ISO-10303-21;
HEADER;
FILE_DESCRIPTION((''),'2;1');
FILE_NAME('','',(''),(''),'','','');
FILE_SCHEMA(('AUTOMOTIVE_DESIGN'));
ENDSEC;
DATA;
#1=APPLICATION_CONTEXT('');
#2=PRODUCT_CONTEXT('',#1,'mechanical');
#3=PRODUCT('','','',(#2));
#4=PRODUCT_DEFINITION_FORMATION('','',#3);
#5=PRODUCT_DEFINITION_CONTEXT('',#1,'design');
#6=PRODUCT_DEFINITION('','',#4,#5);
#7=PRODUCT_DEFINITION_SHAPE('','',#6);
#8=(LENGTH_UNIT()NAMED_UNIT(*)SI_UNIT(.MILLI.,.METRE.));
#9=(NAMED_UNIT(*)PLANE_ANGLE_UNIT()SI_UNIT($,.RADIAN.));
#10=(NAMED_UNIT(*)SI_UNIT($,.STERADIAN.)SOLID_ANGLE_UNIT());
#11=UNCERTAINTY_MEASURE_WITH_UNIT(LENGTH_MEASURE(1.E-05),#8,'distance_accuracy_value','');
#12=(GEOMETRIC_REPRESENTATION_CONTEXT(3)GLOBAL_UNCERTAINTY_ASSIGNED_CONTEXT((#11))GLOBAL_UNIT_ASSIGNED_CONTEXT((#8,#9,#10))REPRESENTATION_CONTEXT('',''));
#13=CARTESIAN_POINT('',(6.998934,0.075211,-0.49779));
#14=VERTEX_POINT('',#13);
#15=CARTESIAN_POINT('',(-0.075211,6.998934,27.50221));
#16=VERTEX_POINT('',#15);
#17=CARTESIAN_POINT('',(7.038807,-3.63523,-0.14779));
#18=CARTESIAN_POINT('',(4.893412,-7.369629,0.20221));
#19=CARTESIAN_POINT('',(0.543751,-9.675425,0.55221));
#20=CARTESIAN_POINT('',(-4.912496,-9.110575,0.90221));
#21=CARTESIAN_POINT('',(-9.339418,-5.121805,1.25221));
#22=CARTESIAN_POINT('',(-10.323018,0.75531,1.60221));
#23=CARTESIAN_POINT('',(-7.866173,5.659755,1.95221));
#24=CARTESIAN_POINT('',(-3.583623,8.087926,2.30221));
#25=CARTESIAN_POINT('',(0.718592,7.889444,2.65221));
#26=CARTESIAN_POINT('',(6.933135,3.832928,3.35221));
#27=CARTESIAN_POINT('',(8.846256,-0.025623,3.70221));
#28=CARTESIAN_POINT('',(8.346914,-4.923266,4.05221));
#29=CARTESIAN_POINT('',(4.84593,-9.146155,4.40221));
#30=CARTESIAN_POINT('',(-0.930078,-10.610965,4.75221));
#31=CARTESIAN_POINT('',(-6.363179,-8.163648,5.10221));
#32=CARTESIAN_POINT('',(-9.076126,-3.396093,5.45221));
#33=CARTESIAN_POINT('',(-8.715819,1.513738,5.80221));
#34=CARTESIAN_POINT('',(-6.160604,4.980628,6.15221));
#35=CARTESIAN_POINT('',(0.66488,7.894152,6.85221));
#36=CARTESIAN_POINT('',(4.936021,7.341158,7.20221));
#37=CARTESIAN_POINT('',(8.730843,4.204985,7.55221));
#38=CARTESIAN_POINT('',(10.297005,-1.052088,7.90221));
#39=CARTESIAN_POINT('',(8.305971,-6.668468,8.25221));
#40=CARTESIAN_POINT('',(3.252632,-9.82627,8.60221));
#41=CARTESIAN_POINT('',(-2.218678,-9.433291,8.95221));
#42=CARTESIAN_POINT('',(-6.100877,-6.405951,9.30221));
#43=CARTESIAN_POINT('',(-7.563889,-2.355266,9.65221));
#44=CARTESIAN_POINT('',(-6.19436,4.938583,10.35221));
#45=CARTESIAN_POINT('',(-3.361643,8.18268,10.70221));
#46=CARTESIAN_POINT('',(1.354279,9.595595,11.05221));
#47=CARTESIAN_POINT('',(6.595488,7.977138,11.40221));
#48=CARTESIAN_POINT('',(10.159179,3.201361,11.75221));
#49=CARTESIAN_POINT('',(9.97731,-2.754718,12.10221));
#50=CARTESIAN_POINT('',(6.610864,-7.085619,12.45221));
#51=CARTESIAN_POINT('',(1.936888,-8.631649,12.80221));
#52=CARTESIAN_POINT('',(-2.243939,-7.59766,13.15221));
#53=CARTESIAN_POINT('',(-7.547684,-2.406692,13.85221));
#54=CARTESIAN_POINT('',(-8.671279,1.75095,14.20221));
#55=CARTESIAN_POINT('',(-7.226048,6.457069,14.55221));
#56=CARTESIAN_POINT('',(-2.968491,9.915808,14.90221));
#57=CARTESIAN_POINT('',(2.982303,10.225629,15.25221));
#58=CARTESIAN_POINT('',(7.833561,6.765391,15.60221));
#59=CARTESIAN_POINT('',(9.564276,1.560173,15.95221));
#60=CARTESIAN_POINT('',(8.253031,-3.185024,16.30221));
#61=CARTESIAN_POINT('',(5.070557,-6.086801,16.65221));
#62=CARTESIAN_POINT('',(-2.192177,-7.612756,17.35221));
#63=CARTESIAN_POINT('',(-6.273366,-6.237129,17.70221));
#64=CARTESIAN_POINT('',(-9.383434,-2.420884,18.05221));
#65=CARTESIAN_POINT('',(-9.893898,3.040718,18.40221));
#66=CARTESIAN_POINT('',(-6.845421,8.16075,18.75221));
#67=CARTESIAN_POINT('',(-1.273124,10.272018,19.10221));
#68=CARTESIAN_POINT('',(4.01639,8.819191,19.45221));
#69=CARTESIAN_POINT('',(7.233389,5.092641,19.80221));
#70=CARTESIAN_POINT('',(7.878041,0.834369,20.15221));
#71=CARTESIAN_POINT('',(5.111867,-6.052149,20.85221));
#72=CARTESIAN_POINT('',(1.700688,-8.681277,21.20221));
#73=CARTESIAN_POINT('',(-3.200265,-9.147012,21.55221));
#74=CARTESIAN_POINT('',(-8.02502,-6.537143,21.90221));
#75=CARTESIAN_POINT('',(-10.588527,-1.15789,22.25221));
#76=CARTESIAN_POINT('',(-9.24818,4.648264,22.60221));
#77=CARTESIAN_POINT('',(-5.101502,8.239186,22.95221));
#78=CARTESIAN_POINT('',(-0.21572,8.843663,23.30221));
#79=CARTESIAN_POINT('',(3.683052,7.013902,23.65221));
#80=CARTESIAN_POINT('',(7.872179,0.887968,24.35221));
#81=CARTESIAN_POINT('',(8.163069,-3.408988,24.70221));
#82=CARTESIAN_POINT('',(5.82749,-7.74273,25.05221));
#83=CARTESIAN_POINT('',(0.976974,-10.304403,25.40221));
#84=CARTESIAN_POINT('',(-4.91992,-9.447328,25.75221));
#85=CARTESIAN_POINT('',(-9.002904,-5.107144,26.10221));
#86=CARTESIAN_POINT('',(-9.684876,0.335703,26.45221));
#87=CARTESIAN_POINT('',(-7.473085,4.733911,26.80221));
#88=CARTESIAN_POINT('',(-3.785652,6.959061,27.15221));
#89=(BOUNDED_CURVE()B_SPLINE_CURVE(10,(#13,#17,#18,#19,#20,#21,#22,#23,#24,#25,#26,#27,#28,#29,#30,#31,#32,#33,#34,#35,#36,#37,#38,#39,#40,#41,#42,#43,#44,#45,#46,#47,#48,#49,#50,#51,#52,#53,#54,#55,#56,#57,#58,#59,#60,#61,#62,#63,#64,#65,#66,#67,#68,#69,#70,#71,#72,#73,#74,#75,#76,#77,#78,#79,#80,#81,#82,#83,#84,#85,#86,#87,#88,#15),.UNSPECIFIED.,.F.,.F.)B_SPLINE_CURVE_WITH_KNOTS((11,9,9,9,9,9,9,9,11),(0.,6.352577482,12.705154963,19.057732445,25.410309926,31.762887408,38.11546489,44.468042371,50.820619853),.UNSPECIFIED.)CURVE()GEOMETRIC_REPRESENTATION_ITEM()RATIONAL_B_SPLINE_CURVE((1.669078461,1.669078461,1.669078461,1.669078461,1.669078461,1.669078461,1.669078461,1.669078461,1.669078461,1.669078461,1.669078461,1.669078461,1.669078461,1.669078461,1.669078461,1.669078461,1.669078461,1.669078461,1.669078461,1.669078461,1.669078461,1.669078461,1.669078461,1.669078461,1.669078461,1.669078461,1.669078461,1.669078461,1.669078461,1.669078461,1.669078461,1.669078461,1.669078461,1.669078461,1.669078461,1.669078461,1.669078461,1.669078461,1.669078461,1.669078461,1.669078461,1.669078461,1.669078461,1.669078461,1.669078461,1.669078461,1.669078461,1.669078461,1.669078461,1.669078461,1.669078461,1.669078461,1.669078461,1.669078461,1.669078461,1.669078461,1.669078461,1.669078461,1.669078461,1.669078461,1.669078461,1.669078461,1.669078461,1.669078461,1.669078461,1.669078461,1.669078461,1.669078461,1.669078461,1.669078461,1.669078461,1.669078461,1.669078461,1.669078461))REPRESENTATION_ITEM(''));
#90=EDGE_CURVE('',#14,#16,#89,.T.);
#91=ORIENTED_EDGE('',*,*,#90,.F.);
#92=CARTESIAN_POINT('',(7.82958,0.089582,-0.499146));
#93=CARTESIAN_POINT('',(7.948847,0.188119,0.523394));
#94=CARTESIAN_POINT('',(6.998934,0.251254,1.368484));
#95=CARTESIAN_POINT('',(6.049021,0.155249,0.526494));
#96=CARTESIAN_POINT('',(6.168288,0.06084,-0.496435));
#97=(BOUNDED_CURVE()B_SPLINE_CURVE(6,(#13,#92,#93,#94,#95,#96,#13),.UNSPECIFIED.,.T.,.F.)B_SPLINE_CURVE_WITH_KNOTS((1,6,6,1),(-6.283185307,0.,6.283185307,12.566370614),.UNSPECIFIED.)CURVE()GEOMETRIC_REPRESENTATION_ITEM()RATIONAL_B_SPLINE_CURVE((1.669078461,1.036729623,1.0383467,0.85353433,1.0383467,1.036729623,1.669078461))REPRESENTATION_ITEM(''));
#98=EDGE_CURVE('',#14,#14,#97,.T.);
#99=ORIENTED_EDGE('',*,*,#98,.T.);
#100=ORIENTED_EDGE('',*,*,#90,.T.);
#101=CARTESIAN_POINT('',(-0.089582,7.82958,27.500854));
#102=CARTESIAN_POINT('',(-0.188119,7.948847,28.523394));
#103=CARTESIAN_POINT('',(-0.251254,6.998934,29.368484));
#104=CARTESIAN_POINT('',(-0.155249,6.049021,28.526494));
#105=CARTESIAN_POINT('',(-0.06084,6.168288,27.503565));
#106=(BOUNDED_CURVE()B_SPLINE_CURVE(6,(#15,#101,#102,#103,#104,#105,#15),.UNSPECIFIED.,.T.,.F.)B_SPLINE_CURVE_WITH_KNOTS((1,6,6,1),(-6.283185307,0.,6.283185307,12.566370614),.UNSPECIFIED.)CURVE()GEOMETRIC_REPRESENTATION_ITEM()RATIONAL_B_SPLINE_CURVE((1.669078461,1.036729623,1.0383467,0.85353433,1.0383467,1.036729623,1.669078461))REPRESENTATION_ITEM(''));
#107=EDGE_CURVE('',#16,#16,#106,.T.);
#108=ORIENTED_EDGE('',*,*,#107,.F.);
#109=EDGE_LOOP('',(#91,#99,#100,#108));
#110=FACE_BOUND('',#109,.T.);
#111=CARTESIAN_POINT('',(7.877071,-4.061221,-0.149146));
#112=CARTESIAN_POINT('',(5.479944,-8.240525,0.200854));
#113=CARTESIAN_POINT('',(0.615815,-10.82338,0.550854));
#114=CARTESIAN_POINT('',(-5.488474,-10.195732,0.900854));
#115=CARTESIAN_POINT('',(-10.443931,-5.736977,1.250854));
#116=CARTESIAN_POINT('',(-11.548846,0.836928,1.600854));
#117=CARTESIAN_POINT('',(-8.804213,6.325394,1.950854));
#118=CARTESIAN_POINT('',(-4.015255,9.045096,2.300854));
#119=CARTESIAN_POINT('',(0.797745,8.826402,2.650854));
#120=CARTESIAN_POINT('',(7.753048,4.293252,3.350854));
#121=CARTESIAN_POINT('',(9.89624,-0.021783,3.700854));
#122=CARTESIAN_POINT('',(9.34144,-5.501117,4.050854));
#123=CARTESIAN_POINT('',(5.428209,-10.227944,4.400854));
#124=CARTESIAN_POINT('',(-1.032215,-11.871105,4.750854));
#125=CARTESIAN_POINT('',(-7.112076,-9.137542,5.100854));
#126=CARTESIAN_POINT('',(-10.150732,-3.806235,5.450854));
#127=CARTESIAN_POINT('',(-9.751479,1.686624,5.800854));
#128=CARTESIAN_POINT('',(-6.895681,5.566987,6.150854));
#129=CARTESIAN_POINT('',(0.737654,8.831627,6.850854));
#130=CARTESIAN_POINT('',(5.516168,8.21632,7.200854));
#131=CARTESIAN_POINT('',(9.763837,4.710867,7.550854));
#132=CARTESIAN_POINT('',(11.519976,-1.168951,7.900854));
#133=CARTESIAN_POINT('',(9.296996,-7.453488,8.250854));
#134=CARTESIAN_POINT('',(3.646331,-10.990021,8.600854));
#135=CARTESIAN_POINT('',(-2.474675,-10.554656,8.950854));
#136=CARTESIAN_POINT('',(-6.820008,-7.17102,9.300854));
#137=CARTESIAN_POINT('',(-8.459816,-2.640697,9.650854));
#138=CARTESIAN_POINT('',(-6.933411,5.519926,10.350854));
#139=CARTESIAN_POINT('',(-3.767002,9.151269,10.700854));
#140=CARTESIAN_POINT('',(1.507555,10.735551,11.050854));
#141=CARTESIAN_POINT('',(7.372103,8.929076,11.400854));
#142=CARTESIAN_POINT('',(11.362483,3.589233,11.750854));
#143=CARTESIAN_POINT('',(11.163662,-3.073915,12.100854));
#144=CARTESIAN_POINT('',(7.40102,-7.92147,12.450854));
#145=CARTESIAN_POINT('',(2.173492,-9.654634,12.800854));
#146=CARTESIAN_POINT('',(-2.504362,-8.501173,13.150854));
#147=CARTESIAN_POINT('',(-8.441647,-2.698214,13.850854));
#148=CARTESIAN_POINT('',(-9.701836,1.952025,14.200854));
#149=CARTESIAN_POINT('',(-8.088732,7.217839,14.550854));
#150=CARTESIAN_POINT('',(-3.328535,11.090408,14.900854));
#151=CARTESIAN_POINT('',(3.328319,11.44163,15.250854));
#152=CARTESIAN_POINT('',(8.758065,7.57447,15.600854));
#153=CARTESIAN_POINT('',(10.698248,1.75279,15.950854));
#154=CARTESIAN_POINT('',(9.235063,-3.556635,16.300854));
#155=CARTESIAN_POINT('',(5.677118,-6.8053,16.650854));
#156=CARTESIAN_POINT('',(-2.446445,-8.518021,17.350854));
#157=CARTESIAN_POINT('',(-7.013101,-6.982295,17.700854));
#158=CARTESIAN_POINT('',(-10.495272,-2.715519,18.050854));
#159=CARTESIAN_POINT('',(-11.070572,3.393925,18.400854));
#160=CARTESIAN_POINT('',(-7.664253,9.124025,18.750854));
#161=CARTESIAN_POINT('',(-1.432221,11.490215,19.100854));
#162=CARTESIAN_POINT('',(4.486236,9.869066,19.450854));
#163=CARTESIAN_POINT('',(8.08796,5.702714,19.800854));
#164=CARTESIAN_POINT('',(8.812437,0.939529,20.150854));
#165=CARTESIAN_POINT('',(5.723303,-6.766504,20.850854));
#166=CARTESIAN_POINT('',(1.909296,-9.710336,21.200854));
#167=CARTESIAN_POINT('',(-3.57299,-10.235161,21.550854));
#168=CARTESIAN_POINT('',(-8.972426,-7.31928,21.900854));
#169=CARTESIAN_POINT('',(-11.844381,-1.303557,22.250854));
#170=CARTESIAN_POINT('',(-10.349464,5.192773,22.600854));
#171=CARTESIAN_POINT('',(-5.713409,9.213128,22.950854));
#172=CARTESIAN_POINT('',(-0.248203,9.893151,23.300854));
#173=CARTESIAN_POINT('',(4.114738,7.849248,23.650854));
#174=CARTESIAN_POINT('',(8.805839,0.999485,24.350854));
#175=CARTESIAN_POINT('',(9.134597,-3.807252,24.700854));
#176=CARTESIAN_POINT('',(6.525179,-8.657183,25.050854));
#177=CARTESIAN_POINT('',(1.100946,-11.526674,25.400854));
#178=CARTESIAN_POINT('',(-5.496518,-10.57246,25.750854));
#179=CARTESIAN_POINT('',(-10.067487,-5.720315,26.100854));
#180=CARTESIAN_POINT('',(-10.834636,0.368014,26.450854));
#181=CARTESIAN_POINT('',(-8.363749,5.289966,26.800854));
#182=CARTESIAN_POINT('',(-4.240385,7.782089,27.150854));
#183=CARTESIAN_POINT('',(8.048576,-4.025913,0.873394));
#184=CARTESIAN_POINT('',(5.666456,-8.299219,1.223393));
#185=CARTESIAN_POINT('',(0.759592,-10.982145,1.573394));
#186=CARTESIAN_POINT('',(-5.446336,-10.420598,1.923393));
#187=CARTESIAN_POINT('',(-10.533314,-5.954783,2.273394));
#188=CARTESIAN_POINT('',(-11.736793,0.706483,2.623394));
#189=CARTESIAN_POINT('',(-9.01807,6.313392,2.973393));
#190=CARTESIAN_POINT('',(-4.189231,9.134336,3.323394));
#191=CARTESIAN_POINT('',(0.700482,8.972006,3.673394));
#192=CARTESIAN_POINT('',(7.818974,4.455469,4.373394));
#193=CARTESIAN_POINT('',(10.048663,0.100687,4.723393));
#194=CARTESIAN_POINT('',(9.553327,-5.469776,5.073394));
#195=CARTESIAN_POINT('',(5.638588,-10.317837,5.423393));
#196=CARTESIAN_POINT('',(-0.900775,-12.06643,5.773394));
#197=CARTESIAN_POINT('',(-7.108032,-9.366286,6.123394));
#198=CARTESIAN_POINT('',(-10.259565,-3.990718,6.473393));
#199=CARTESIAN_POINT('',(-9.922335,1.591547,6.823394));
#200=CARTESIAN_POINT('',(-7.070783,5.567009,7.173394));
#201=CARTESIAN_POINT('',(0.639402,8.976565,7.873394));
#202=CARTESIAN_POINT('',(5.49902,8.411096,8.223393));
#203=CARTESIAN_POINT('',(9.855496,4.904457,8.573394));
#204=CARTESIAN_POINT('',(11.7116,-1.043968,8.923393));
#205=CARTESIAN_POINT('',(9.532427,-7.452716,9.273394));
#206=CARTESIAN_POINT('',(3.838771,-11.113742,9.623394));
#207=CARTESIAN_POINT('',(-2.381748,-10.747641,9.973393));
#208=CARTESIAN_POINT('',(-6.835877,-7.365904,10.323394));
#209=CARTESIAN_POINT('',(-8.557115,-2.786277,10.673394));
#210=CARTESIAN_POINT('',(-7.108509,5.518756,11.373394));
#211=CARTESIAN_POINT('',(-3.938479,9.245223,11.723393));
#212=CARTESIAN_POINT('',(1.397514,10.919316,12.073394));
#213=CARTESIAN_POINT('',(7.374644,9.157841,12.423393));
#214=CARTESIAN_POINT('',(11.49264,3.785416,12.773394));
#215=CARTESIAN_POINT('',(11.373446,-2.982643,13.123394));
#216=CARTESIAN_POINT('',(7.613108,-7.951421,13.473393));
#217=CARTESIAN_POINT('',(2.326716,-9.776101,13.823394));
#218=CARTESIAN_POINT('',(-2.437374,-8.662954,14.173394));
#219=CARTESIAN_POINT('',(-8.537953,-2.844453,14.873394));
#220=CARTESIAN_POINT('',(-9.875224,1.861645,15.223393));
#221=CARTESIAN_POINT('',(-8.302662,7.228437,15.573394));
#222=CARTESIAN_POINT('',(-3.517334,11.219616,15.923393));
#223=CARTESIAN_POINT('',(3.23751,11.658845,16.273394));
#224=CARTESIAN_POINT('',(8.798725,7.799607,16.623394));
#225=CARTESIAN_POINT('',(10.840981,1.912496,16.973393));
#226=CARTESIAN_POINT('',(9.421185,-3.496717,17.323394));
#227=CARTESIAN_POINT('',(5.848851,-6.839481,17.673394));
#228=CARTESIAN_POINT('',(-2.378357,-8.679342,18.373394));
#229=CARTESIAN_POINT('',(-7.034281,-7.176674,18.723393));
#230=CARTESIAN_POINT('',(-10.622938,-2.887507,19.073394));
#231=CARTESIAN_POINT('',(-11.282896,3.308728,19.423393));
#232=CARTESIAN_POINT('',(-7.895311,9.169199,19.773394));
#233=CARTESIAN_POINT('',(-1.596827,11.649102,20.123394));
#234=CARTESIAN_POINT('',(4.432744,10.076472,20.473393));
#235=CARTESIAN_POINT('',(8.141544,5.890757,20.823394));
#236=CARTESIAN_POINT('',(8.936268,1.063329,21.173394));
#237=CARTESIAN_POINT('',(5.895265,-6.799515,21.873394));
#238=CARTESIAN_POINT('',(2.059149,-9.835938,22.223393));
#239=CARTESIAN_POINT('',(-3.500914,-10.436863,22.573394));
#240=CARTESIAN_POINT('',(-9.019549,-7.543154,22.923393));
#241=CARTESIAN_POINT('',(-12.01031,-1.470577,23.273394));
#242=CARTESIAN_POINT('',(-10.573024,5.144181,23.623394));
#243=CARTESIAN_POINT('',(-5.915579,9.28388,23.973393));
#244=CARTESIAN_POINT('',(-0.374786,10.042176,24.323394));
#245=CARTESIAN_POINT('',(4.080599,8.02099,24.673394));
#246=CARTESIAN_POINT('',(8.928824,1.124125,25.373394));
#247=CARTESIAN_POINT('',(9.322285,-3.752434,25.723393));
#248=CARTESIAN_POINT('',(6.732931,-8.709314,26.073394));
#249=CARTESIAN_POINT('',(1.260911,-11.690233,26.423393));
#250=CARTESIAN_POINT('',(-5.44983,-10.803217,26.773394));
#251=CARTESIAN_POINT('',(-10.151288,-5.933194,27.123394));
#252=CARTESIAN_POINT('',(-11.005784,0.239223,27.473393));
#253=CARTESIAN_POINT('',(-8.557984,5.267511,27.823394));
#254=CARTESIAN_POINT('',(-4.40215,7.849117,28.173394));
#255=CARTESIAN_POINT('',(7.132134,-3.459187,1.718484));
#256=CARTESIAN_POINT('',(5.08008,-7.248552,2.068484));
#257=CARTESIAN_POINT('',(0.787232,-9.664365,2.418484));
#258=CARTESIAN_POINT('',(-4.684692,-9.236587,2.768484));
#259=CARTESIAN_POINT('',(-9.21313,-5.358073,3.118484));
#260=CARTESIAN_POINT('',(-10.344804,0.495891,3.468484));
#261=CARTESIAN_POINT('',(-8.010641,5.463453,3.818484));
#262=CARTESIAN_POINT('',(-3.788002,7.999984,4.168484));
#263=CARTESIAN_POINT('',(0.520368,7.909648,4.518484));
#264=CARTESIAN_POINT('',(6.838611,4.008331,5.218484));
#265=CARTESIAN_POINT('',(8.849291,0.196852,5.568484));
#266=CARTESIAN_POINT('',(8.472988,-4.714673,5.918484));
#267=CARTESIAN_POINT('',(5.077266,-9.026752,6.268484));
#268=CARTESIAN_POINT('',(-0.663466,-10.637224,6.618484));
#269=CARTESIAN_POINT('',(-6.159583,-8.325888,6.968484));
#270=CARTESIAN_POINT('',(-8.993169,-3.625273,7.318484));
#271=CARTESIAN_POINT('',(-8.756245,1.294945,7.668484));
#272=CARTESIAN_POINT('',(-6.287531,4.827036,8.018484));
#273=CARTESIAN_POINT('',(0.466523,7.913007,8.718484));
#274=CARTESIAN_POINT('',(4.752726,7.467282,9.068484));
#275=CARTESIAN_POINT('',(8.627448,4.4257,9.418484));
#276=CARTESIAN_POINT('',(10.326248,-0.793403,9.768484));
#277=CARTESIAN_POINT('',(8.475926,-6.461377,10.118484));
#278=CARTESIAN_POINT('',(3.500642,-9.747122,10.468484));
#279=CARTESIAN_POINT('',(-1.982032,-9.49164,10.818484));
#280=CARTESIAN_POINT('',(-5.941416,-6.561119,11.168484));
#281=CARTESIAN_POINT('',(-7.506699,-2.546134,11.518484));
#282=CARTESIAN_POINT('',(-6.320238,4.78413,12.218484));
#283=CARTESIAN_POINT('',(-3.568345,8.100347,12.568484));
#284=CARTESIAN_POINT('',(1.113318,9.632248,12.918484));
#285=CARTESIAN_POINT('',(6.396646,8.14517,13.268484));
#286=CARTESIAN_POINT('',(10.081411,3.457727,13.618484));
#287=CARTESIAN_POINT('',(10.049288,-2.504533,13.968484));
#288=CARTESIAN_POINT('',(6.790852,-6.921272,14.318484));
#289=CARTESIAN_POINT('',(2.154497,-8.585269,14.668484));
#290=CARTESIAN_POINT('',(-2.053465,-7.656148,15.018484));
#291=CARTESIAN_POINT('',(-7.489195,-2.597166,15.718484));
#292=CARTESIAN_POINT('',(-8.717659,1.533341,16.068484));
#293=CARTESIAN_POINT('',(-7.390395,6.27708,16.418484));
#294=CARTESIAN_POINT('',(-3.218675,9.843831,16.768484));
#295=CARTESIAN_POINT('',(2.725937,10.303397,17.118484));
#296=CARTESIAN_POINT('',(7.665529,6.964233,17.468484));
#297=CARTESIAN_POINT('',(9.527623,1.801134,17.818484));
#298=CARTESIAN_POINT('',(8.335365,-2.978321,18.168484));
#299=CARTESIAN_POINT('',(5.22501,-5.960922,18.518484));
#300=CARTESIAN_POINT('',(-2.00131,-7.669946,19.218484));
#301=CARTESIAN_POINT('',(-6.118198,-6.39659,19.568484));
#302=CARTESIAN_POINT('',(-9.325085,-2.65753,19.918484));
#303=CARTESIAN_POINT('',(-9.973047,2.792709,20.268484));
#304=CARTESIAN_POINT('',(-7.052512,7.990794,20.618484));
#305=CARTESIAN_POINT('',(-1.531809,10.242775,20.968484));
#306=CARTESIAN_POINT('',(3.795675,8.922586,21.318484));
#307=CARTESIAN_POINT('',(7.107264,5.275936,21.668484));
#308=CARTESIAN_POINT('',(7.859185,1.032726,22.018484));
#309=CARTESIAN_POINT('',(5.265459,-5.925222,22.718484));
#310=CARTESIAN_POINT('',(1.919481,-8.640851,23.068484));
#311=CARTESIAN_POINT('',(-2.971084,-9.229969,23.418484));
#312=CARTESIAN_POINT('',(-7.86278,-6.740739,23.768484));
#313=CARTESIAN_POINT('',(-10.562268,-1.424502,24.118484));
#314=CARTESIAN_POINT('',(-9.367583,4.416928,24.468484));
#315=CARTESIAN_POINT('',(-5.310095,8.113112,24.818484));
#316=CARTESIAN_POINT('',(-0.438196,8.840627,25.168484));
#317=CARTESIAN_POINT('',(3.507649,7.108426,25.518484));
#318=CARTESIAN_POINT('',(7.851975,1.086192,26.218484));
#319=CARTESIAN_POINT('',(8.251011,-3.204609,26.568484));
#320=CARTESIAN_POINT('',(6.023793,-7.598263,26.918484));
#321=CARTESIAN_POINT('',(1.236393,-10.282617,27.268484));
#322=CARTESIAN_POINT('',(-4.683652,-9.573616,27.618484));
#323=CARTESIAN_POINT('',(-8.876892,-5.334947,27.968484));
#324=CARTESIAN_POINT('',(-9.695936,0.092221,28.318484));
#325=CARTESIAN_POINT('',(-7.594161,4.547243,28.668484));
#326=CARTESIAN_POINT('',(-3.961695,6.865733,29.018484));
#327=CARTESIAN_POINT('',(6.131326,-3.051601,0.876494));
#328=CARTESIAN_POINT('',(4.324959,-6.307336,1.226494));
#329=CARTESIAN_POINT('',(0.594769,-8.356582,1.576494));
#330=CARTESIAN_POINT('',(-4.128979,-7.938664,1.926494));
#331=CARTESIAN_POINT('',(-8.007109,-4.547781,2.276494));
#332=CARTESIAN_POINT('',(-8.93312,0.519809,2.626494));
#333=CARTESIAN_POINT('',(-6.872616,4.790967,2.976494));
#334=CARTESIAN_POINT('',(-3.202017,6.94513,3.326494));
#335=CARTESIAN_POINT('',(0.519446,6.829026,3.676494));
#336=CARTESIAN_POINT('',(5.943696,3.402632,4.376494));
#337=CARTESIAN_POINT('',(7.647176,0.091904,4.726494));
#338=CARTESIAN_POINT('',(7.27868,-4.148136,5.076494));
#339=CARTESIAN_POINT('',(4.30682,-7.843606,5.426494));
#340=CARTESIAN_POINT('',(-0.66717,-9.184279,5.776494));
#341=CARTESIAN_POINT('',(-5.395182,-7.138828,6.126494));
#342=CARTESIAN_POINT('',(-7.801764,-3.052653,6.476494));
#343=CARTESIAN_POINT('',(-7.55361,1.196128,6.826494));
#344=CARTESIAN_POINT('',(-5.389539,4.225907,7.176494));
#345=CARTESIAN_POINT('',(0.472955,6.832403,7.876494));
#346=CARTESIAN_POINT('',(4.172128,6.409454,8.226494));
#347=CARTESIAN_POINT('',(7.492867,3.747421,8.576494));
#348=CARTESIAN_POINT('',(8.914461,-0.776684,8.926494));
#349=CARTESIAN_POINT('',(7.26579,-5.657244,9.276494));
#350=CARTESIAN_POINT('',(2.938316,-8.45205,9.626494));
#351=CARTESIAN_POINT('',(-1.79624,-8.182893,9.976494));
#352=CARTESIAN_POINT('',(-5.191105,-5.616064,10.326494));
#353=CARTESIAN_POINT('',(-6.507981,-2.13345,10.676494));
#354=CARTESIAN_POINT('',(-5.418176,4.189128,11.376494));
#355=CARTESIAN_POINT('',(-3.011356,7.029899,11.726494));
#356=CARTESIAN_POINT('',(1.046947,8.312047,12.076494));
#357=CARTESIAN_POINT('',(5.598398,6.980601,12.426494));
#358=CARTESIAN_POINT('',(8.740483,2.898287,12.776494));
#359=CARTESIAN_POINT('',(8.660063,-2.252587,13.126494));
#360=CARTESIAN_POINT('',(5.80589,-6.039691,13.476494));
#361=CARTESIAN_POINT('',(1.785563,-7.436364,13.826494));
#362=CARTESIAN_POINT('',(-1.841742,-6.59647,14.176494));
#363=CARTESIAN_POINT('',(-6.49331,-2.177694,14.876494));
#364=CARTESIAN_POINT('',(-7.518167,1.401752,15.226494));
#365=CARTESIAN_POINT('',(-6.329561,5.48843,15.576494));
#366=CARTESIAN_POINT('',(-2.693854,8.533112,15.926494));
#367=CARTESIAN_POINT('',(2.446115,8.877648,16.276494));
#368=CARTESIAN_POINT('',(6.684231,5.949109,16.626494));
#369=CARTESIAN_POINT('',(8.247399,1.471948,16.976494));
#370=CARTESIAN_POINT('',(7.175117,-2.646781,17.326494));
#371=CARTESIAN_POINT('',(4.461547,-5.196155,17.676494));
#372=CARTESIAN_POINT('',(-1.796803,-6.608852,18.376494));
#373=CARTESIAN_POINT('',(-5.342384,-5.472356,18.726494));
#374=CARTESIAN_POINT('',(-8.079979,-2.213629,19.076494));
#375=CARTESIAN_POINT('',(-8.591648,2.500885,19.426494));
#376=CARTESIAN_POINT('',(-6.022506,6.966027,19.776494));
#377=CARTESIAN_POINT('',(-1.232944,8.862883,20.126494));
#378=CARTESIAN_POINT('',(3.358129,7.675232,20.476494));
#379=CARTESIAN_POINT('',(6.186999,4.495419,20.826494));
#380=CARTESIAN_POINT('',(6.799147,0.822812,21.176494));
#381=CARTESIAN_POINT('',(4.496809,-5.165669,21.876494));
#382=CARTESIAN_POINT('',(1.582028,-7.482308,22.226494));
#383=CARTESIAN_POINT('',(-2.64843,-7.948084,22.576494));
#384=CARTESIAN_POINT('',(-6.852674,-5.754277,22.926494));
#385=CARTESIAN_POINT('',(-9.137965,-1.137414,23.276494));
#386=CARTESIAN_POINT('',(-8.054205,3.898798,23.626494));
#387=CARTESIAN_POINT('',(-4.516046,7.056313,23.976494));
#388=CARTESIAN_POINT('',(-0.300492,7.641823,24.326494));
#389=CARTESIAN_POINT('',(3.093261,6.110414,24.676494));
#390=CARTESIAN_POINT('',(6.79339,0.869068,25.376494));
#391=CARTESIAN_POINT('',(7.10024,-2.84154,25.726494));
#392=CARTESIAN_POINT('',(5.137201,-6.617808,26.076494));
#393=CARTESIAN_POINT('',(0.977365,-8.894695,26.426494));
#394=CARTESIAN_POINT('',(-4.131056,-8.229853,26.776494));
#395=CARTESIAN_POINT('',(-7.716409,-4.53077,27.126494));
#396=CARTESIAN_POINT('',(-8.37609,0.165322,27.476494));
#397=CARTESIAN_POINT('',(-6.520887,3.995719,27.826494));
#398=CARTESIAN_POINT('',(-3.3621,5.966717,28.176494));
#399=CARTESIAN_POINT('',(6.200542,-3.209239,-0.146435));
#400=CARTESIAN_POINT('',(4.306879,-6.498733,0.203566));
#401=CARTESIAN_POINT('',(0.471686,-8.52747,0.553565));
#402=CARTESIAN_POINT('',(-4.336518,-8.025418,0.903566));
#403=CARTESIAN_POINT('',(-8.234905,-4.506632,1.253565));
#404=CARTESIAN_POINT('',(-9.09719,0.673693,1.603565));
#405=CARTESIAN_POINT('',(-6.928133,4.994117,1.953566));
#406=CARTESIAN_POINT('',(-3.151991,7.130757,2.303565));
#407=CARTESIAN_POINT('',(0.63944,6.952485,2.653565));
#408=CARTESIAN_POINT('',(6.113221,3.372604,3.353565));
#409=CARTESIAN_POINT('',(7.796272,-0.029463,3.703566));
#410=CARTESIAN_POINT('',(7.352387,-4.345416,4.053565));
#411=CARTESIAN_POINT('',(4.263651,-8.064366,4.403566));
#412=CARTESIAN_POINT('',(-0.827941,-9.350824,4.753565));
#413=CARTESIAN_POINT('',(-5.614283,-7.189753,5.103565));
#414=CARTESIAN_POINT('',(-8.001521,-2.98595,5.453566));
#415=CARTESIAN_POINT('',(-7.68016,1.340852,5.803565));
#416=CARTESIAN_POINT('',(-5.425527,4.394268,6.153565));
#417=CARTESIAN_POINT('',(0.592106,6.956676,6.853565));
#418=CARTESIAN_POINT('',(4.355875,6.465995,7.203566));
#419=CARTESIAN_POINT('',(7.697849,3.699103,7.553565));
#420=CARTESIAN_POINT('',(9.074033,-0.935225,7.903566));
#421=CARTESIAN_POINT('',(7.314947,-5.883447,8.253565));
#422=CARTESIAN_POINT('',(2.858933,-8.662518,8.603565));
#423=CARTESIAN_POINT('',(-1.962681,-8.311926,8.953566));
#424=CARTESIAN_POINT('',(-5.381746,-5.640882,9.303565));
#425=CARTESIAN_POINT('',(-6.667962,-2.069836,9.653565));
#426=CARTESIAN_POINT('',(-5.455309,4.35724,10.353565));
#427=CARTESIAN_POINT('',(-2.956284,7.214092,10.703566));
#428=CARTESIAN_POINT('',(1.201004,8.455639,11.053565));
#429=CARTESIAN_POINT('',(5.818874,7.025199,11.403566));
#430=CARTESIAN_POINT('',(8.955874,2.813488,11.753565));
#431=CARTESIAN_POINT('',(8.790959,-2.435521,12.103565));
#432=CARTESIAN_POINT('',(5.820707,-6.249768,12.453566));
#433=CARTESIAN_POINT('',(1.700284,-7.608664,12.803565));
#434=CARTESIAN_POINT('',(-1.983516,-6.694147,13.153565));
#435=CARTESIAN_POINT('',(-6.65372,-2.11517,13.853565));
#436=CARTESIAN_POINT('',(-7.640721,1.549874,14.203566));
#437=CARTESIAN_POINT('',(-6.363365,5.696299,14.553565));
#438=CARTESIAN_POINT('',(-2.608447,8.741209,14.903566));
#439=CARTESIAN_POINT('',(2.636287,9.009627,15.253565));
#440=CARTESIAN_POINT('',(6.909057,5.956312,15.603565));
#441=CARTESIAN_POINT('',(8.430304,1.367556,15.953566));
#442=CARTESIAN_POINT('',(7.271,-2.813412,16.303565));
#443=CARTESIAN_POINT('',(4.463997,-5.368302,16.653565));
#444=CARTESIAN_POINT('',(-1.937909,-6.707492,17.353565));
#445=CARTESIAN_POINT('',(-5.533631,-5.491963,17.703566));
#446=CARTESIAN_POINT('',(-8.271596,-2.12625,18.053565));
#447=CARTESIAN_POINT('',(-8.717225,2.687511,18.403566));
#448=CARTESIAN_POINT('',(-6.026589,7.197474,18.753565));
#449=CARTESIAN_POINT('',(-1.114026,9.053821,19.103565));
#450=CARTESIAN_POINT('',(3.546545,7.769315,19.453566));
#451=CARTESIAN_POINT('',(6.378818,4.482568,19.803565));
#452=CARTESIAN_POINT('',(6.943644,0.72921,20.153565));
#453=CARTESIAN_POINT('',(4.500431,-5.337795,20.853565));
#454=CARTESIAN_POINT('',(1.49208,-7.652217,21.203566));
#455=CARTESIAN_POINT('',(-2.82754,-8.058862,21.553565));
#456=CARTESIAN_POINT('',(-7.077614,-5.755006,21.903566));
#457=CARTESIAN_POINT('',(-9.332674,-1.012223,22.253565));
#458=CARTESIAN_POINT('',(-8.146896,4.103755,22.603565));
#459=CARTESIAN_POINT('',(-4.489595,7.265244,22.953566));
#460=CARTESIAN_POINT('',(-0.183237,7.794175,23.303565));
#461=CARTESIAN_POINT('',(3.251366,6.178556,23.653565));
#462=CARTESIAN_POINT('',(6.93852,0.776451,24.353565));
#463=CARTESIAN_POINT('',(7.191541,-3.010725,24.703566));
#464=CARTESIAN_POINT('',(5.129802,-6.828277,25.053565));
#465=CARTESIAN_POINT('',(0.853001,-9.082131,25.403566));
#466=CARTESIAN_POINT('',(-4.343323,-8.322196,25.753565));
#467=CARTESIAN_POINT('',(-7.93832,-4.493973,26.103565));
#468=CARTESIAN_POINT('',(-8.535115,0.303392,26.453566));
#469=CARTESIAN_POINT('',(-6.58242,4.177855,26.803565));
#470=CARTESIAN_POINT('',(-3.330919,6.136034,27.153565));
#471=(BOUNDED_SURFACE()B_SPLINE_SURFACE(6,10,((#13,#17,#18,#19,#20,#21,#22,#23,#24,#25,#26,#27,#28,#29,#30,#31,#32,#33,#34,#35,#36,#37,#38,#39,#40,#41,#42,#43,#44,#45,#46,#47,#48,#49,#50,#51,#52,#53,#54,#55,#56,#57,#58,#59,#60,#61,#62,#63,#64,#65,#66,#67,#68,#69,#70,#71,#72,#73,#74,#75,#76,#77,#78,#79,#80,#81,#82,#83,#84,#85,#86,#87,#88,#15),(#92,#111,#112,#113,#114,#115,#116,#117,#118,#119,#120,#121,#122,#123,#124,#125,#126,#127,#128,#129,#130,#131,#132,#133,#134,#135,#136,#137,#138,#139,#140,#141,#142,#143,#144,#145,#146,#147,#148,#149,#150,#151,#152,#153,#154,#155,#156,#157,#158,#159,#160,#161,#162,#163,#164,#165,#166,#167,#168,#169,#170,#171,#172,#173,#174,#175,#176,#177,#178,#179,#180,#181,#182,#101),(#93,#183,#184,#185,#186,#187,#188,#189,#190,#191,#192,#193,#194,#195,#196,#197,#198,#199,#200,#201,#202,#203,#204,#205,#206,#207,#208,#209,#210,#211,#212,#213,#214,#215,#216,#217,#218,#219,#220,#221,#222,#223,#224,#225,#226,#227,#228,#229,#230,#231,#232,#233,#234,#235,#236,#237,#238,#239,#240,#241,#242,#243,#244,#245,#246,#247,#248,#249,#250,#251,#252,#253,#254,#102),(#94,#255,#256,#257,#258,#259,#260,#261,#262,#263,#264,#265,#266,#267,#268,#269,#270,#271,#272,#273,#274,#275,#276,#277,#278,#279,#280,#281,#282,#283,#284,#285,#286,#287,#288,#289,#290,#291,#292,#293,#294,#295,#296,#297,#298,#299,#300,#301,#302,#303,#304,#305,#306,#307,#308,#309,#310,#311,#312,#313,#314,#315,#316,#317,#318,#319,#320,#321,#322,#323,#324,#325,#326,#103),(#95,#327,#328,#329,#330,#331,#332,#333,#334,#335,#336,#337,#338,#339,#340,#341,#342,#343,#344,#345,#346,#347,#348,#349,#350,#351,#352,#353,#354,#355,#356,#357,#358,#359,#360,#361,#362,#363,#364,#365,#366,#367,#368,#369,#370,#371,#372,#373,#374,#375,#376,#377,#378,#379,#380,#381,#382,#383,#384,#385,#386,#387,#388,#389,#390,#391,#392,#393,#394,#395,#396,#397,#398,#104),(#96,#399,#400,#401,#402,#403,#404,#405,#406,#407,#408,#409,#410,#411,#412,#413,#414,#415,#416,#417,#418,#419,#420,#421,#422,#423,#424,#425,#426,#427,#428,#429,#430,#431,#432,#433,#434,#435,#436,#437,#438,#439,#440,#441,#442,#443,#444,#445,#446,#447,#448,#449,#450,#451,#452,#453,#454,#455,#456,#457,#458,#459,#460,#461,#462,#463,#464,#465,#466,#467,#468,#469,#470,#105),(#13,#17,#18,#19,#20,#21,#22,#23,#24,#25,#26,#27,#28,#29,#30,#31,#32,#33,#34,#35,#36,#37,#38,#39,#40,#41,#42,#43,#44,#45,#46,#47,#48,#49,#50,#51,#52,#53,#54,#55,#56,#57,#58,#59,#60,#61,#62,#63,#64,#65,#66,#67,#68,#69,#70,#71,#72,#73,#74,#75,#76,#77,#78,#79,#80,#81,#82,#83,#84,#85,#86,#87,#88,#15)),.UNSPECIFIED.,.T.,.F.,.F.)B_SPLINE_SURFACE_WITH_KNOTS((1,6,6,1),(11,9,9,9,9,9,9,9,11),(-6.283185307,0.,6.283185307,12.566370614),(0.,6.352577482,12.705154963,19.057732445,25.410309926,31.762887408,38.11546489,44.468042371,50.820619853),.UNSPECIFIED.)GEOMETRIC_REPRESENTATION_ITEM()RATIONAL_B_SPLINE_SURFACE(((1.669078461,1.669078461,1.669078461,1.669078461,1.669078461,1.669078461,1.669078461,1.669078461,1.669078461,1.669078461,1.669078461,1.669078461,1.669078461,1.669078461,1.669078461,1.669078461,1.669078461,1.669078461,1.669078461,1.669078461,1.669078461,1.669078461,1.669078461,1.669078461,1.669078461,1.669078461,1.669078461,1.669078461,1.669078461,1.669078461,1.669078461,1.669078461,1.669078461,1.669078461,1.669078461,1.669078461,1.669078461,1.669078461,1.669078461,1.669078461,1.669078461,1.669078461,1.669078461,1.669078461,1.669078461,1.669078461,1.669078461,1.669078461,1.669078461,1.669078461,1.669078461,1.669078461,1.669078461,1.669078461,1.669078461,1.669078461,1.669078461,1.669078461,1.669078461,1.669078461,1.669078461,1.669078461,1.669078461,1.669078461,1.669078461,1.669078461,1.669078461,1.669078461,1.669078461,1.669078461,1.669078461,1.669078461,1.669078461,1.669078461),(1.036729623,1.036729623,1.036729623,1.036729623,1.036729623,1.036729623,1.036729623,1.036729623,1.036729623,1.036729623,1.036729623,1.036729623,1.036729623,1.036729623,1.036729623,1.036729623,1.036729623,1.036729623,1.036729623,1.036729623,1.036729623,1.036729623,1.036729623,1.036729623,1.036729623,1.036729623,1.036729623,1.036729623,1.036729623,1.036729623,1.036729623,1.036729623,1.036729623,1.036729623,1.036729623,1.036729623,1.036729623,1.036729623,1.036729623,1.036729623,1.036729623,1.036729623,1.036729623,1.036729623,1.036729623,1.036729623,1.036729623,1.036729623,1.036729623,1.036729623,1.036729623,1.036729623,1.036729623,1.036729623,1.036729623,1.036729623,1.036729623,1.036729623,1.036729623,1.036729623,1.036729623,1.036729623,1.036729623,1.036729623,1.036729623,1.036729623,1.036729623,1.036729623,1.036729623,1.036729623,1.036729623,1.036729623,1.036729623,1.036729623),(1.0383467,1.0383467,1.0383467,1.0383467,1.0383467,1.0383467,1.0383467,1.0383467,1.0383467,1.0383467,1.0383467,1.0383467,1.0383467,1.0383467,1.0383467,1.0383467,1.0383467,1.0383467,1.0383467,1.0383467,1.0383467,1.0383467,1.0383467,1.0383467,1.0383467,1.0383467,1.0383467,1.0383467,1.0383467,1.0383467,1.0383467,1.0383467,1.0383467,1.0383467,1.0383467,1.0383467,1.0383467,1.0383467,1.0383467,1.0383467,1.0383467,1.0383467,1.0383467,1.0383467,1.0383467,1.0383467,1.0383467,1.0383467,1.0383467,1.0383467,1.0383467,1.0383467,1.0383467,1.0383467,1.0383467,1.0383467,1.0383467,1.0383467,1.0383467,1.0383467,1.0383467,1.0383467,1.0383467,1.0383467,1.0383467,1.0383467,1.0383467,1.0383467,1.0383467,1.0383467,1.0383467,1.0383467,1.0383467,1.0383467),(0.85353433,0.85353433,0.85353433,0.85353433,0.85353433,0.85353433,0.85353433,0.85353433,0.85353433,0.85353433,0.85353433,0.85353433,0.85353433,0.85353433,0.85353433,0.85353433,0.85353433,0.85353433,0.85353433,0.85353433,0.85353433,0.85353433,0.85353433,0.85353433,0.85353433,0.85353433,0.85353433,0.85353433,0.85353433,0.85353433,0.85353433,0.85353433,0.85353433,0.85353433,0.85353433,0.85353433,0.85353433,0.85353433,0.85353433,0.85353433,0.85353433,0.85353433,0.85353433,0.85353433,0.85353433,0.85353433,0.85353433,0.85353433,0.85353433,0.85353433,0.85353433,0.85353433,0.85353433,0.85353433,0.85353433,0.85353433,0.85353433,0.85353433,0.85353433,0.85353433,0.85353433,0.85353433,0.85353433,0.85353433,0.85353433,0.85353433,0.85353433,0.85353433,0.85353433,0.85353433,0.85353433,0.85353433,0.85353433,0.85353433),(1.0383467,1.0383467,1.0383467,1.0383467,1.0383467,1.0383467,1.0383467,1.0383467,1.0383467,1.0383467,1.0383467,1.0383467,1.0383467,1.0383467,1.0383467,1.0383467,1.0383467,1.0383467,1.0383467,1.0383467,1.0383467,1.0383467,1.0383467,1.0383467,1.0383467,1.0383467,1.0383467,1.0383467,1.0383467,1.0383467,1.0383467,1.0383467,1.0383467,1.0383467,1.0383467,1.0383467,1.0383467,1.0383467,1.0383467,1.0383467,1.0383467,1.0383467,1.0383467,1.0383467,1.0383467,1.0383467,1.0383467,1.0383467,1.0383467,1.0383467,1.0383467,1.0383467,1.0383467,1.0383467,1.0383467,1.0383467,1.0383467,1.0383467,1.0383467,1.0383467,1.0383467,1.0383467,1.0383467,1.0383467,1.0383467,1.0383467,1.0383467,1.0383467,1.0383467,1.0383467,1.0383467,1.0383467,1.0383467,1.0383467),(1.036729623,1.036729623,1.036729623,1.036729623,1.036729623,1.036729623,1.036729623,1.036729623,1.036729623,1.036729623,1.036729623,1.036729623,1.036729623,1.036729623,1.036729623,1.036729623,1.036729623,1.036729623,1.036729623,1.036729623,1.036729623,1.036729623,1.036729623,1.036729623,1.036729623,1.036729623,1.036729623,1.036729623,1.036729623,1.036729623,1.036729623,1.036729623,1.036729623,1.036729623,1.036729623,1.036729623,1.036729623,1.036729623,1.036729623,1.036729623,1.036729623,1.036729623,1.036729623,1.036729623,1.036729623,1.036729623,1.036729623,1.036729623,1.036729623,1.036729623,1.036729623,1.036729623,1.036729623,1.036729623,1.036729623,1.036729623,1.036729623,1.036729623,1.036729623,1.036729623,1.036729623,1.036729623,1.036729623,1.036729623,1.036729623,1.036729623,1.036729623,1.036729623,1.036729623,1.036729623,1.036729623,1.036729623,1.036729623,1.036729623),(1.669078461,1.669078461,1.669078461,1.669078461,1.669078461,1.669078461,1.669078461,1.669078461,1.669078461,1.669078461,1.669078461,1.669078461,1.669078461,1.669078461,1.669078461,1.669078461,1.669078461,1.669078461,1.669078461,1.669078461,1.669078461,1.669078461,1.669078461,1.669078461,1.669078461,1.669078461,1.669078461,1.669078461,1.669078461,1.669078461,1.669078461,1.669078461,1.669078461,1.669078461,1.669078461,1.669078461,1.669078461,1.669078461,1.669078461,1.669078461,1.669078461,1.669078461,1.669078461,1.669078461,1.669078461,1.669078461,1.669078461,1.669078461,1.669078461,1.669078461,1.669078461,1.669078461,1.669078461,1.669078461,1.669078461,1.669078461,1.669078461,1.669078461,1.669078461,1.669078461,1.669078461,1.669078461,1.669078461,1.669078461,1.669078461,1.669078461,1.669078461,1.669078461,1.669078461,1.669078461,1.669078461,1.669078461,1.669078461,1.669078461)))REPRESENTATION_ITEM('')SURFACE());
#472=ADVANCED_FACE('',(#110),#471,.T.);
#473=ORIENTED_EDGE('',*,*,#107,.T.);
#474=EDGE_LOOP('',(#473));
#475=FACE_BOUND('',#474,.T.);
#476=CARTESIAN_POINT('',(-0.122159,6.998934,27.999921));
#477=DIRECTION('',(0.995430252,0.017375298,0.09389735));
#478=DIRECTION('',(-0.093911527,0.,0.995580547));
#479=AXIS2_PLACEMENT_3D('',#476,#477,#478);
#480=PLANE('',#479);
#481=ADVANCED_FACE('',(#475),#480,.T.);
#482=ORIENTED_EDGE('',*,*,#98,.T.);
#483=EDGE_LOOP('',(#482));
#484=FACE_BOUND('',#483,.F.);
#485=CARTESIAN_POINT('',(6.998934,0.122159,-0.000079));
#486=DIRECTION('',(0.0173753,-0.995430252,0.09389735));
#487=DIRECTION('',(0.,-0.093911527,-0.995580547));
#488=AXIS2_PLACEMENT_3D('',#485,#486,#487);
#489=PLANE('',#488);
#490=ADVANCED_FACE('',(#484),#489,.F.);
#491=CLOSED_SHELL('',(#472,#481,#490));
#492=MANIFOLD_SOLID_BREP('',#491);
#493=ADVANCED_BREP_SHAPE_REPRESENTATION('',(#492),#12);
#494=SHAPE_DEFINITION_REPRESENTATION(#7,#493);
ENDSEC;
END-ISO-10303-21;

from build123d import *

# Parameters (mm, degrees)
SWEEP1_PITCH       = 4.148148148
SWEEP1_HEIGHT      = 28
SWEEP1_RADIUS      = 7
SWEEP1_START_ANGLE = 1
SWEEP1_PROFILE_R   = 0.5


with BuildPart() as part:
    # Sweep1: sweep along a helix
    with BuildLine() as sweep1_path:
        add(Helix(SWEEP1_PITCH, SWEEP1_HEIGHT, SWEEP1_RADIUS, center=(0, 0, 0), direction=(0, 0, 1), lefthand=True, mode=Mode.PRIVATE).rotate(Axis((0, 0, 0), (0, 0, 1)), SWEEP1_START_ANGLE))
    # Sweep1 profile (on start of the path) → Sweep1 (sweep)
    with BuildSketch(Plane(origin=(6.998933866, 0.122166845, 0), x_dir=(0, -0.09391152704008714, -0.9955805467610338), z_dir=(0.01737529968022496, -0.9954302520159161, 0.09389734997619609))):
        Circle(SWEEP1_PROFILE_R)
    sweep(path=sweep1_path.line, is_frenet=True)


solid = part.part
